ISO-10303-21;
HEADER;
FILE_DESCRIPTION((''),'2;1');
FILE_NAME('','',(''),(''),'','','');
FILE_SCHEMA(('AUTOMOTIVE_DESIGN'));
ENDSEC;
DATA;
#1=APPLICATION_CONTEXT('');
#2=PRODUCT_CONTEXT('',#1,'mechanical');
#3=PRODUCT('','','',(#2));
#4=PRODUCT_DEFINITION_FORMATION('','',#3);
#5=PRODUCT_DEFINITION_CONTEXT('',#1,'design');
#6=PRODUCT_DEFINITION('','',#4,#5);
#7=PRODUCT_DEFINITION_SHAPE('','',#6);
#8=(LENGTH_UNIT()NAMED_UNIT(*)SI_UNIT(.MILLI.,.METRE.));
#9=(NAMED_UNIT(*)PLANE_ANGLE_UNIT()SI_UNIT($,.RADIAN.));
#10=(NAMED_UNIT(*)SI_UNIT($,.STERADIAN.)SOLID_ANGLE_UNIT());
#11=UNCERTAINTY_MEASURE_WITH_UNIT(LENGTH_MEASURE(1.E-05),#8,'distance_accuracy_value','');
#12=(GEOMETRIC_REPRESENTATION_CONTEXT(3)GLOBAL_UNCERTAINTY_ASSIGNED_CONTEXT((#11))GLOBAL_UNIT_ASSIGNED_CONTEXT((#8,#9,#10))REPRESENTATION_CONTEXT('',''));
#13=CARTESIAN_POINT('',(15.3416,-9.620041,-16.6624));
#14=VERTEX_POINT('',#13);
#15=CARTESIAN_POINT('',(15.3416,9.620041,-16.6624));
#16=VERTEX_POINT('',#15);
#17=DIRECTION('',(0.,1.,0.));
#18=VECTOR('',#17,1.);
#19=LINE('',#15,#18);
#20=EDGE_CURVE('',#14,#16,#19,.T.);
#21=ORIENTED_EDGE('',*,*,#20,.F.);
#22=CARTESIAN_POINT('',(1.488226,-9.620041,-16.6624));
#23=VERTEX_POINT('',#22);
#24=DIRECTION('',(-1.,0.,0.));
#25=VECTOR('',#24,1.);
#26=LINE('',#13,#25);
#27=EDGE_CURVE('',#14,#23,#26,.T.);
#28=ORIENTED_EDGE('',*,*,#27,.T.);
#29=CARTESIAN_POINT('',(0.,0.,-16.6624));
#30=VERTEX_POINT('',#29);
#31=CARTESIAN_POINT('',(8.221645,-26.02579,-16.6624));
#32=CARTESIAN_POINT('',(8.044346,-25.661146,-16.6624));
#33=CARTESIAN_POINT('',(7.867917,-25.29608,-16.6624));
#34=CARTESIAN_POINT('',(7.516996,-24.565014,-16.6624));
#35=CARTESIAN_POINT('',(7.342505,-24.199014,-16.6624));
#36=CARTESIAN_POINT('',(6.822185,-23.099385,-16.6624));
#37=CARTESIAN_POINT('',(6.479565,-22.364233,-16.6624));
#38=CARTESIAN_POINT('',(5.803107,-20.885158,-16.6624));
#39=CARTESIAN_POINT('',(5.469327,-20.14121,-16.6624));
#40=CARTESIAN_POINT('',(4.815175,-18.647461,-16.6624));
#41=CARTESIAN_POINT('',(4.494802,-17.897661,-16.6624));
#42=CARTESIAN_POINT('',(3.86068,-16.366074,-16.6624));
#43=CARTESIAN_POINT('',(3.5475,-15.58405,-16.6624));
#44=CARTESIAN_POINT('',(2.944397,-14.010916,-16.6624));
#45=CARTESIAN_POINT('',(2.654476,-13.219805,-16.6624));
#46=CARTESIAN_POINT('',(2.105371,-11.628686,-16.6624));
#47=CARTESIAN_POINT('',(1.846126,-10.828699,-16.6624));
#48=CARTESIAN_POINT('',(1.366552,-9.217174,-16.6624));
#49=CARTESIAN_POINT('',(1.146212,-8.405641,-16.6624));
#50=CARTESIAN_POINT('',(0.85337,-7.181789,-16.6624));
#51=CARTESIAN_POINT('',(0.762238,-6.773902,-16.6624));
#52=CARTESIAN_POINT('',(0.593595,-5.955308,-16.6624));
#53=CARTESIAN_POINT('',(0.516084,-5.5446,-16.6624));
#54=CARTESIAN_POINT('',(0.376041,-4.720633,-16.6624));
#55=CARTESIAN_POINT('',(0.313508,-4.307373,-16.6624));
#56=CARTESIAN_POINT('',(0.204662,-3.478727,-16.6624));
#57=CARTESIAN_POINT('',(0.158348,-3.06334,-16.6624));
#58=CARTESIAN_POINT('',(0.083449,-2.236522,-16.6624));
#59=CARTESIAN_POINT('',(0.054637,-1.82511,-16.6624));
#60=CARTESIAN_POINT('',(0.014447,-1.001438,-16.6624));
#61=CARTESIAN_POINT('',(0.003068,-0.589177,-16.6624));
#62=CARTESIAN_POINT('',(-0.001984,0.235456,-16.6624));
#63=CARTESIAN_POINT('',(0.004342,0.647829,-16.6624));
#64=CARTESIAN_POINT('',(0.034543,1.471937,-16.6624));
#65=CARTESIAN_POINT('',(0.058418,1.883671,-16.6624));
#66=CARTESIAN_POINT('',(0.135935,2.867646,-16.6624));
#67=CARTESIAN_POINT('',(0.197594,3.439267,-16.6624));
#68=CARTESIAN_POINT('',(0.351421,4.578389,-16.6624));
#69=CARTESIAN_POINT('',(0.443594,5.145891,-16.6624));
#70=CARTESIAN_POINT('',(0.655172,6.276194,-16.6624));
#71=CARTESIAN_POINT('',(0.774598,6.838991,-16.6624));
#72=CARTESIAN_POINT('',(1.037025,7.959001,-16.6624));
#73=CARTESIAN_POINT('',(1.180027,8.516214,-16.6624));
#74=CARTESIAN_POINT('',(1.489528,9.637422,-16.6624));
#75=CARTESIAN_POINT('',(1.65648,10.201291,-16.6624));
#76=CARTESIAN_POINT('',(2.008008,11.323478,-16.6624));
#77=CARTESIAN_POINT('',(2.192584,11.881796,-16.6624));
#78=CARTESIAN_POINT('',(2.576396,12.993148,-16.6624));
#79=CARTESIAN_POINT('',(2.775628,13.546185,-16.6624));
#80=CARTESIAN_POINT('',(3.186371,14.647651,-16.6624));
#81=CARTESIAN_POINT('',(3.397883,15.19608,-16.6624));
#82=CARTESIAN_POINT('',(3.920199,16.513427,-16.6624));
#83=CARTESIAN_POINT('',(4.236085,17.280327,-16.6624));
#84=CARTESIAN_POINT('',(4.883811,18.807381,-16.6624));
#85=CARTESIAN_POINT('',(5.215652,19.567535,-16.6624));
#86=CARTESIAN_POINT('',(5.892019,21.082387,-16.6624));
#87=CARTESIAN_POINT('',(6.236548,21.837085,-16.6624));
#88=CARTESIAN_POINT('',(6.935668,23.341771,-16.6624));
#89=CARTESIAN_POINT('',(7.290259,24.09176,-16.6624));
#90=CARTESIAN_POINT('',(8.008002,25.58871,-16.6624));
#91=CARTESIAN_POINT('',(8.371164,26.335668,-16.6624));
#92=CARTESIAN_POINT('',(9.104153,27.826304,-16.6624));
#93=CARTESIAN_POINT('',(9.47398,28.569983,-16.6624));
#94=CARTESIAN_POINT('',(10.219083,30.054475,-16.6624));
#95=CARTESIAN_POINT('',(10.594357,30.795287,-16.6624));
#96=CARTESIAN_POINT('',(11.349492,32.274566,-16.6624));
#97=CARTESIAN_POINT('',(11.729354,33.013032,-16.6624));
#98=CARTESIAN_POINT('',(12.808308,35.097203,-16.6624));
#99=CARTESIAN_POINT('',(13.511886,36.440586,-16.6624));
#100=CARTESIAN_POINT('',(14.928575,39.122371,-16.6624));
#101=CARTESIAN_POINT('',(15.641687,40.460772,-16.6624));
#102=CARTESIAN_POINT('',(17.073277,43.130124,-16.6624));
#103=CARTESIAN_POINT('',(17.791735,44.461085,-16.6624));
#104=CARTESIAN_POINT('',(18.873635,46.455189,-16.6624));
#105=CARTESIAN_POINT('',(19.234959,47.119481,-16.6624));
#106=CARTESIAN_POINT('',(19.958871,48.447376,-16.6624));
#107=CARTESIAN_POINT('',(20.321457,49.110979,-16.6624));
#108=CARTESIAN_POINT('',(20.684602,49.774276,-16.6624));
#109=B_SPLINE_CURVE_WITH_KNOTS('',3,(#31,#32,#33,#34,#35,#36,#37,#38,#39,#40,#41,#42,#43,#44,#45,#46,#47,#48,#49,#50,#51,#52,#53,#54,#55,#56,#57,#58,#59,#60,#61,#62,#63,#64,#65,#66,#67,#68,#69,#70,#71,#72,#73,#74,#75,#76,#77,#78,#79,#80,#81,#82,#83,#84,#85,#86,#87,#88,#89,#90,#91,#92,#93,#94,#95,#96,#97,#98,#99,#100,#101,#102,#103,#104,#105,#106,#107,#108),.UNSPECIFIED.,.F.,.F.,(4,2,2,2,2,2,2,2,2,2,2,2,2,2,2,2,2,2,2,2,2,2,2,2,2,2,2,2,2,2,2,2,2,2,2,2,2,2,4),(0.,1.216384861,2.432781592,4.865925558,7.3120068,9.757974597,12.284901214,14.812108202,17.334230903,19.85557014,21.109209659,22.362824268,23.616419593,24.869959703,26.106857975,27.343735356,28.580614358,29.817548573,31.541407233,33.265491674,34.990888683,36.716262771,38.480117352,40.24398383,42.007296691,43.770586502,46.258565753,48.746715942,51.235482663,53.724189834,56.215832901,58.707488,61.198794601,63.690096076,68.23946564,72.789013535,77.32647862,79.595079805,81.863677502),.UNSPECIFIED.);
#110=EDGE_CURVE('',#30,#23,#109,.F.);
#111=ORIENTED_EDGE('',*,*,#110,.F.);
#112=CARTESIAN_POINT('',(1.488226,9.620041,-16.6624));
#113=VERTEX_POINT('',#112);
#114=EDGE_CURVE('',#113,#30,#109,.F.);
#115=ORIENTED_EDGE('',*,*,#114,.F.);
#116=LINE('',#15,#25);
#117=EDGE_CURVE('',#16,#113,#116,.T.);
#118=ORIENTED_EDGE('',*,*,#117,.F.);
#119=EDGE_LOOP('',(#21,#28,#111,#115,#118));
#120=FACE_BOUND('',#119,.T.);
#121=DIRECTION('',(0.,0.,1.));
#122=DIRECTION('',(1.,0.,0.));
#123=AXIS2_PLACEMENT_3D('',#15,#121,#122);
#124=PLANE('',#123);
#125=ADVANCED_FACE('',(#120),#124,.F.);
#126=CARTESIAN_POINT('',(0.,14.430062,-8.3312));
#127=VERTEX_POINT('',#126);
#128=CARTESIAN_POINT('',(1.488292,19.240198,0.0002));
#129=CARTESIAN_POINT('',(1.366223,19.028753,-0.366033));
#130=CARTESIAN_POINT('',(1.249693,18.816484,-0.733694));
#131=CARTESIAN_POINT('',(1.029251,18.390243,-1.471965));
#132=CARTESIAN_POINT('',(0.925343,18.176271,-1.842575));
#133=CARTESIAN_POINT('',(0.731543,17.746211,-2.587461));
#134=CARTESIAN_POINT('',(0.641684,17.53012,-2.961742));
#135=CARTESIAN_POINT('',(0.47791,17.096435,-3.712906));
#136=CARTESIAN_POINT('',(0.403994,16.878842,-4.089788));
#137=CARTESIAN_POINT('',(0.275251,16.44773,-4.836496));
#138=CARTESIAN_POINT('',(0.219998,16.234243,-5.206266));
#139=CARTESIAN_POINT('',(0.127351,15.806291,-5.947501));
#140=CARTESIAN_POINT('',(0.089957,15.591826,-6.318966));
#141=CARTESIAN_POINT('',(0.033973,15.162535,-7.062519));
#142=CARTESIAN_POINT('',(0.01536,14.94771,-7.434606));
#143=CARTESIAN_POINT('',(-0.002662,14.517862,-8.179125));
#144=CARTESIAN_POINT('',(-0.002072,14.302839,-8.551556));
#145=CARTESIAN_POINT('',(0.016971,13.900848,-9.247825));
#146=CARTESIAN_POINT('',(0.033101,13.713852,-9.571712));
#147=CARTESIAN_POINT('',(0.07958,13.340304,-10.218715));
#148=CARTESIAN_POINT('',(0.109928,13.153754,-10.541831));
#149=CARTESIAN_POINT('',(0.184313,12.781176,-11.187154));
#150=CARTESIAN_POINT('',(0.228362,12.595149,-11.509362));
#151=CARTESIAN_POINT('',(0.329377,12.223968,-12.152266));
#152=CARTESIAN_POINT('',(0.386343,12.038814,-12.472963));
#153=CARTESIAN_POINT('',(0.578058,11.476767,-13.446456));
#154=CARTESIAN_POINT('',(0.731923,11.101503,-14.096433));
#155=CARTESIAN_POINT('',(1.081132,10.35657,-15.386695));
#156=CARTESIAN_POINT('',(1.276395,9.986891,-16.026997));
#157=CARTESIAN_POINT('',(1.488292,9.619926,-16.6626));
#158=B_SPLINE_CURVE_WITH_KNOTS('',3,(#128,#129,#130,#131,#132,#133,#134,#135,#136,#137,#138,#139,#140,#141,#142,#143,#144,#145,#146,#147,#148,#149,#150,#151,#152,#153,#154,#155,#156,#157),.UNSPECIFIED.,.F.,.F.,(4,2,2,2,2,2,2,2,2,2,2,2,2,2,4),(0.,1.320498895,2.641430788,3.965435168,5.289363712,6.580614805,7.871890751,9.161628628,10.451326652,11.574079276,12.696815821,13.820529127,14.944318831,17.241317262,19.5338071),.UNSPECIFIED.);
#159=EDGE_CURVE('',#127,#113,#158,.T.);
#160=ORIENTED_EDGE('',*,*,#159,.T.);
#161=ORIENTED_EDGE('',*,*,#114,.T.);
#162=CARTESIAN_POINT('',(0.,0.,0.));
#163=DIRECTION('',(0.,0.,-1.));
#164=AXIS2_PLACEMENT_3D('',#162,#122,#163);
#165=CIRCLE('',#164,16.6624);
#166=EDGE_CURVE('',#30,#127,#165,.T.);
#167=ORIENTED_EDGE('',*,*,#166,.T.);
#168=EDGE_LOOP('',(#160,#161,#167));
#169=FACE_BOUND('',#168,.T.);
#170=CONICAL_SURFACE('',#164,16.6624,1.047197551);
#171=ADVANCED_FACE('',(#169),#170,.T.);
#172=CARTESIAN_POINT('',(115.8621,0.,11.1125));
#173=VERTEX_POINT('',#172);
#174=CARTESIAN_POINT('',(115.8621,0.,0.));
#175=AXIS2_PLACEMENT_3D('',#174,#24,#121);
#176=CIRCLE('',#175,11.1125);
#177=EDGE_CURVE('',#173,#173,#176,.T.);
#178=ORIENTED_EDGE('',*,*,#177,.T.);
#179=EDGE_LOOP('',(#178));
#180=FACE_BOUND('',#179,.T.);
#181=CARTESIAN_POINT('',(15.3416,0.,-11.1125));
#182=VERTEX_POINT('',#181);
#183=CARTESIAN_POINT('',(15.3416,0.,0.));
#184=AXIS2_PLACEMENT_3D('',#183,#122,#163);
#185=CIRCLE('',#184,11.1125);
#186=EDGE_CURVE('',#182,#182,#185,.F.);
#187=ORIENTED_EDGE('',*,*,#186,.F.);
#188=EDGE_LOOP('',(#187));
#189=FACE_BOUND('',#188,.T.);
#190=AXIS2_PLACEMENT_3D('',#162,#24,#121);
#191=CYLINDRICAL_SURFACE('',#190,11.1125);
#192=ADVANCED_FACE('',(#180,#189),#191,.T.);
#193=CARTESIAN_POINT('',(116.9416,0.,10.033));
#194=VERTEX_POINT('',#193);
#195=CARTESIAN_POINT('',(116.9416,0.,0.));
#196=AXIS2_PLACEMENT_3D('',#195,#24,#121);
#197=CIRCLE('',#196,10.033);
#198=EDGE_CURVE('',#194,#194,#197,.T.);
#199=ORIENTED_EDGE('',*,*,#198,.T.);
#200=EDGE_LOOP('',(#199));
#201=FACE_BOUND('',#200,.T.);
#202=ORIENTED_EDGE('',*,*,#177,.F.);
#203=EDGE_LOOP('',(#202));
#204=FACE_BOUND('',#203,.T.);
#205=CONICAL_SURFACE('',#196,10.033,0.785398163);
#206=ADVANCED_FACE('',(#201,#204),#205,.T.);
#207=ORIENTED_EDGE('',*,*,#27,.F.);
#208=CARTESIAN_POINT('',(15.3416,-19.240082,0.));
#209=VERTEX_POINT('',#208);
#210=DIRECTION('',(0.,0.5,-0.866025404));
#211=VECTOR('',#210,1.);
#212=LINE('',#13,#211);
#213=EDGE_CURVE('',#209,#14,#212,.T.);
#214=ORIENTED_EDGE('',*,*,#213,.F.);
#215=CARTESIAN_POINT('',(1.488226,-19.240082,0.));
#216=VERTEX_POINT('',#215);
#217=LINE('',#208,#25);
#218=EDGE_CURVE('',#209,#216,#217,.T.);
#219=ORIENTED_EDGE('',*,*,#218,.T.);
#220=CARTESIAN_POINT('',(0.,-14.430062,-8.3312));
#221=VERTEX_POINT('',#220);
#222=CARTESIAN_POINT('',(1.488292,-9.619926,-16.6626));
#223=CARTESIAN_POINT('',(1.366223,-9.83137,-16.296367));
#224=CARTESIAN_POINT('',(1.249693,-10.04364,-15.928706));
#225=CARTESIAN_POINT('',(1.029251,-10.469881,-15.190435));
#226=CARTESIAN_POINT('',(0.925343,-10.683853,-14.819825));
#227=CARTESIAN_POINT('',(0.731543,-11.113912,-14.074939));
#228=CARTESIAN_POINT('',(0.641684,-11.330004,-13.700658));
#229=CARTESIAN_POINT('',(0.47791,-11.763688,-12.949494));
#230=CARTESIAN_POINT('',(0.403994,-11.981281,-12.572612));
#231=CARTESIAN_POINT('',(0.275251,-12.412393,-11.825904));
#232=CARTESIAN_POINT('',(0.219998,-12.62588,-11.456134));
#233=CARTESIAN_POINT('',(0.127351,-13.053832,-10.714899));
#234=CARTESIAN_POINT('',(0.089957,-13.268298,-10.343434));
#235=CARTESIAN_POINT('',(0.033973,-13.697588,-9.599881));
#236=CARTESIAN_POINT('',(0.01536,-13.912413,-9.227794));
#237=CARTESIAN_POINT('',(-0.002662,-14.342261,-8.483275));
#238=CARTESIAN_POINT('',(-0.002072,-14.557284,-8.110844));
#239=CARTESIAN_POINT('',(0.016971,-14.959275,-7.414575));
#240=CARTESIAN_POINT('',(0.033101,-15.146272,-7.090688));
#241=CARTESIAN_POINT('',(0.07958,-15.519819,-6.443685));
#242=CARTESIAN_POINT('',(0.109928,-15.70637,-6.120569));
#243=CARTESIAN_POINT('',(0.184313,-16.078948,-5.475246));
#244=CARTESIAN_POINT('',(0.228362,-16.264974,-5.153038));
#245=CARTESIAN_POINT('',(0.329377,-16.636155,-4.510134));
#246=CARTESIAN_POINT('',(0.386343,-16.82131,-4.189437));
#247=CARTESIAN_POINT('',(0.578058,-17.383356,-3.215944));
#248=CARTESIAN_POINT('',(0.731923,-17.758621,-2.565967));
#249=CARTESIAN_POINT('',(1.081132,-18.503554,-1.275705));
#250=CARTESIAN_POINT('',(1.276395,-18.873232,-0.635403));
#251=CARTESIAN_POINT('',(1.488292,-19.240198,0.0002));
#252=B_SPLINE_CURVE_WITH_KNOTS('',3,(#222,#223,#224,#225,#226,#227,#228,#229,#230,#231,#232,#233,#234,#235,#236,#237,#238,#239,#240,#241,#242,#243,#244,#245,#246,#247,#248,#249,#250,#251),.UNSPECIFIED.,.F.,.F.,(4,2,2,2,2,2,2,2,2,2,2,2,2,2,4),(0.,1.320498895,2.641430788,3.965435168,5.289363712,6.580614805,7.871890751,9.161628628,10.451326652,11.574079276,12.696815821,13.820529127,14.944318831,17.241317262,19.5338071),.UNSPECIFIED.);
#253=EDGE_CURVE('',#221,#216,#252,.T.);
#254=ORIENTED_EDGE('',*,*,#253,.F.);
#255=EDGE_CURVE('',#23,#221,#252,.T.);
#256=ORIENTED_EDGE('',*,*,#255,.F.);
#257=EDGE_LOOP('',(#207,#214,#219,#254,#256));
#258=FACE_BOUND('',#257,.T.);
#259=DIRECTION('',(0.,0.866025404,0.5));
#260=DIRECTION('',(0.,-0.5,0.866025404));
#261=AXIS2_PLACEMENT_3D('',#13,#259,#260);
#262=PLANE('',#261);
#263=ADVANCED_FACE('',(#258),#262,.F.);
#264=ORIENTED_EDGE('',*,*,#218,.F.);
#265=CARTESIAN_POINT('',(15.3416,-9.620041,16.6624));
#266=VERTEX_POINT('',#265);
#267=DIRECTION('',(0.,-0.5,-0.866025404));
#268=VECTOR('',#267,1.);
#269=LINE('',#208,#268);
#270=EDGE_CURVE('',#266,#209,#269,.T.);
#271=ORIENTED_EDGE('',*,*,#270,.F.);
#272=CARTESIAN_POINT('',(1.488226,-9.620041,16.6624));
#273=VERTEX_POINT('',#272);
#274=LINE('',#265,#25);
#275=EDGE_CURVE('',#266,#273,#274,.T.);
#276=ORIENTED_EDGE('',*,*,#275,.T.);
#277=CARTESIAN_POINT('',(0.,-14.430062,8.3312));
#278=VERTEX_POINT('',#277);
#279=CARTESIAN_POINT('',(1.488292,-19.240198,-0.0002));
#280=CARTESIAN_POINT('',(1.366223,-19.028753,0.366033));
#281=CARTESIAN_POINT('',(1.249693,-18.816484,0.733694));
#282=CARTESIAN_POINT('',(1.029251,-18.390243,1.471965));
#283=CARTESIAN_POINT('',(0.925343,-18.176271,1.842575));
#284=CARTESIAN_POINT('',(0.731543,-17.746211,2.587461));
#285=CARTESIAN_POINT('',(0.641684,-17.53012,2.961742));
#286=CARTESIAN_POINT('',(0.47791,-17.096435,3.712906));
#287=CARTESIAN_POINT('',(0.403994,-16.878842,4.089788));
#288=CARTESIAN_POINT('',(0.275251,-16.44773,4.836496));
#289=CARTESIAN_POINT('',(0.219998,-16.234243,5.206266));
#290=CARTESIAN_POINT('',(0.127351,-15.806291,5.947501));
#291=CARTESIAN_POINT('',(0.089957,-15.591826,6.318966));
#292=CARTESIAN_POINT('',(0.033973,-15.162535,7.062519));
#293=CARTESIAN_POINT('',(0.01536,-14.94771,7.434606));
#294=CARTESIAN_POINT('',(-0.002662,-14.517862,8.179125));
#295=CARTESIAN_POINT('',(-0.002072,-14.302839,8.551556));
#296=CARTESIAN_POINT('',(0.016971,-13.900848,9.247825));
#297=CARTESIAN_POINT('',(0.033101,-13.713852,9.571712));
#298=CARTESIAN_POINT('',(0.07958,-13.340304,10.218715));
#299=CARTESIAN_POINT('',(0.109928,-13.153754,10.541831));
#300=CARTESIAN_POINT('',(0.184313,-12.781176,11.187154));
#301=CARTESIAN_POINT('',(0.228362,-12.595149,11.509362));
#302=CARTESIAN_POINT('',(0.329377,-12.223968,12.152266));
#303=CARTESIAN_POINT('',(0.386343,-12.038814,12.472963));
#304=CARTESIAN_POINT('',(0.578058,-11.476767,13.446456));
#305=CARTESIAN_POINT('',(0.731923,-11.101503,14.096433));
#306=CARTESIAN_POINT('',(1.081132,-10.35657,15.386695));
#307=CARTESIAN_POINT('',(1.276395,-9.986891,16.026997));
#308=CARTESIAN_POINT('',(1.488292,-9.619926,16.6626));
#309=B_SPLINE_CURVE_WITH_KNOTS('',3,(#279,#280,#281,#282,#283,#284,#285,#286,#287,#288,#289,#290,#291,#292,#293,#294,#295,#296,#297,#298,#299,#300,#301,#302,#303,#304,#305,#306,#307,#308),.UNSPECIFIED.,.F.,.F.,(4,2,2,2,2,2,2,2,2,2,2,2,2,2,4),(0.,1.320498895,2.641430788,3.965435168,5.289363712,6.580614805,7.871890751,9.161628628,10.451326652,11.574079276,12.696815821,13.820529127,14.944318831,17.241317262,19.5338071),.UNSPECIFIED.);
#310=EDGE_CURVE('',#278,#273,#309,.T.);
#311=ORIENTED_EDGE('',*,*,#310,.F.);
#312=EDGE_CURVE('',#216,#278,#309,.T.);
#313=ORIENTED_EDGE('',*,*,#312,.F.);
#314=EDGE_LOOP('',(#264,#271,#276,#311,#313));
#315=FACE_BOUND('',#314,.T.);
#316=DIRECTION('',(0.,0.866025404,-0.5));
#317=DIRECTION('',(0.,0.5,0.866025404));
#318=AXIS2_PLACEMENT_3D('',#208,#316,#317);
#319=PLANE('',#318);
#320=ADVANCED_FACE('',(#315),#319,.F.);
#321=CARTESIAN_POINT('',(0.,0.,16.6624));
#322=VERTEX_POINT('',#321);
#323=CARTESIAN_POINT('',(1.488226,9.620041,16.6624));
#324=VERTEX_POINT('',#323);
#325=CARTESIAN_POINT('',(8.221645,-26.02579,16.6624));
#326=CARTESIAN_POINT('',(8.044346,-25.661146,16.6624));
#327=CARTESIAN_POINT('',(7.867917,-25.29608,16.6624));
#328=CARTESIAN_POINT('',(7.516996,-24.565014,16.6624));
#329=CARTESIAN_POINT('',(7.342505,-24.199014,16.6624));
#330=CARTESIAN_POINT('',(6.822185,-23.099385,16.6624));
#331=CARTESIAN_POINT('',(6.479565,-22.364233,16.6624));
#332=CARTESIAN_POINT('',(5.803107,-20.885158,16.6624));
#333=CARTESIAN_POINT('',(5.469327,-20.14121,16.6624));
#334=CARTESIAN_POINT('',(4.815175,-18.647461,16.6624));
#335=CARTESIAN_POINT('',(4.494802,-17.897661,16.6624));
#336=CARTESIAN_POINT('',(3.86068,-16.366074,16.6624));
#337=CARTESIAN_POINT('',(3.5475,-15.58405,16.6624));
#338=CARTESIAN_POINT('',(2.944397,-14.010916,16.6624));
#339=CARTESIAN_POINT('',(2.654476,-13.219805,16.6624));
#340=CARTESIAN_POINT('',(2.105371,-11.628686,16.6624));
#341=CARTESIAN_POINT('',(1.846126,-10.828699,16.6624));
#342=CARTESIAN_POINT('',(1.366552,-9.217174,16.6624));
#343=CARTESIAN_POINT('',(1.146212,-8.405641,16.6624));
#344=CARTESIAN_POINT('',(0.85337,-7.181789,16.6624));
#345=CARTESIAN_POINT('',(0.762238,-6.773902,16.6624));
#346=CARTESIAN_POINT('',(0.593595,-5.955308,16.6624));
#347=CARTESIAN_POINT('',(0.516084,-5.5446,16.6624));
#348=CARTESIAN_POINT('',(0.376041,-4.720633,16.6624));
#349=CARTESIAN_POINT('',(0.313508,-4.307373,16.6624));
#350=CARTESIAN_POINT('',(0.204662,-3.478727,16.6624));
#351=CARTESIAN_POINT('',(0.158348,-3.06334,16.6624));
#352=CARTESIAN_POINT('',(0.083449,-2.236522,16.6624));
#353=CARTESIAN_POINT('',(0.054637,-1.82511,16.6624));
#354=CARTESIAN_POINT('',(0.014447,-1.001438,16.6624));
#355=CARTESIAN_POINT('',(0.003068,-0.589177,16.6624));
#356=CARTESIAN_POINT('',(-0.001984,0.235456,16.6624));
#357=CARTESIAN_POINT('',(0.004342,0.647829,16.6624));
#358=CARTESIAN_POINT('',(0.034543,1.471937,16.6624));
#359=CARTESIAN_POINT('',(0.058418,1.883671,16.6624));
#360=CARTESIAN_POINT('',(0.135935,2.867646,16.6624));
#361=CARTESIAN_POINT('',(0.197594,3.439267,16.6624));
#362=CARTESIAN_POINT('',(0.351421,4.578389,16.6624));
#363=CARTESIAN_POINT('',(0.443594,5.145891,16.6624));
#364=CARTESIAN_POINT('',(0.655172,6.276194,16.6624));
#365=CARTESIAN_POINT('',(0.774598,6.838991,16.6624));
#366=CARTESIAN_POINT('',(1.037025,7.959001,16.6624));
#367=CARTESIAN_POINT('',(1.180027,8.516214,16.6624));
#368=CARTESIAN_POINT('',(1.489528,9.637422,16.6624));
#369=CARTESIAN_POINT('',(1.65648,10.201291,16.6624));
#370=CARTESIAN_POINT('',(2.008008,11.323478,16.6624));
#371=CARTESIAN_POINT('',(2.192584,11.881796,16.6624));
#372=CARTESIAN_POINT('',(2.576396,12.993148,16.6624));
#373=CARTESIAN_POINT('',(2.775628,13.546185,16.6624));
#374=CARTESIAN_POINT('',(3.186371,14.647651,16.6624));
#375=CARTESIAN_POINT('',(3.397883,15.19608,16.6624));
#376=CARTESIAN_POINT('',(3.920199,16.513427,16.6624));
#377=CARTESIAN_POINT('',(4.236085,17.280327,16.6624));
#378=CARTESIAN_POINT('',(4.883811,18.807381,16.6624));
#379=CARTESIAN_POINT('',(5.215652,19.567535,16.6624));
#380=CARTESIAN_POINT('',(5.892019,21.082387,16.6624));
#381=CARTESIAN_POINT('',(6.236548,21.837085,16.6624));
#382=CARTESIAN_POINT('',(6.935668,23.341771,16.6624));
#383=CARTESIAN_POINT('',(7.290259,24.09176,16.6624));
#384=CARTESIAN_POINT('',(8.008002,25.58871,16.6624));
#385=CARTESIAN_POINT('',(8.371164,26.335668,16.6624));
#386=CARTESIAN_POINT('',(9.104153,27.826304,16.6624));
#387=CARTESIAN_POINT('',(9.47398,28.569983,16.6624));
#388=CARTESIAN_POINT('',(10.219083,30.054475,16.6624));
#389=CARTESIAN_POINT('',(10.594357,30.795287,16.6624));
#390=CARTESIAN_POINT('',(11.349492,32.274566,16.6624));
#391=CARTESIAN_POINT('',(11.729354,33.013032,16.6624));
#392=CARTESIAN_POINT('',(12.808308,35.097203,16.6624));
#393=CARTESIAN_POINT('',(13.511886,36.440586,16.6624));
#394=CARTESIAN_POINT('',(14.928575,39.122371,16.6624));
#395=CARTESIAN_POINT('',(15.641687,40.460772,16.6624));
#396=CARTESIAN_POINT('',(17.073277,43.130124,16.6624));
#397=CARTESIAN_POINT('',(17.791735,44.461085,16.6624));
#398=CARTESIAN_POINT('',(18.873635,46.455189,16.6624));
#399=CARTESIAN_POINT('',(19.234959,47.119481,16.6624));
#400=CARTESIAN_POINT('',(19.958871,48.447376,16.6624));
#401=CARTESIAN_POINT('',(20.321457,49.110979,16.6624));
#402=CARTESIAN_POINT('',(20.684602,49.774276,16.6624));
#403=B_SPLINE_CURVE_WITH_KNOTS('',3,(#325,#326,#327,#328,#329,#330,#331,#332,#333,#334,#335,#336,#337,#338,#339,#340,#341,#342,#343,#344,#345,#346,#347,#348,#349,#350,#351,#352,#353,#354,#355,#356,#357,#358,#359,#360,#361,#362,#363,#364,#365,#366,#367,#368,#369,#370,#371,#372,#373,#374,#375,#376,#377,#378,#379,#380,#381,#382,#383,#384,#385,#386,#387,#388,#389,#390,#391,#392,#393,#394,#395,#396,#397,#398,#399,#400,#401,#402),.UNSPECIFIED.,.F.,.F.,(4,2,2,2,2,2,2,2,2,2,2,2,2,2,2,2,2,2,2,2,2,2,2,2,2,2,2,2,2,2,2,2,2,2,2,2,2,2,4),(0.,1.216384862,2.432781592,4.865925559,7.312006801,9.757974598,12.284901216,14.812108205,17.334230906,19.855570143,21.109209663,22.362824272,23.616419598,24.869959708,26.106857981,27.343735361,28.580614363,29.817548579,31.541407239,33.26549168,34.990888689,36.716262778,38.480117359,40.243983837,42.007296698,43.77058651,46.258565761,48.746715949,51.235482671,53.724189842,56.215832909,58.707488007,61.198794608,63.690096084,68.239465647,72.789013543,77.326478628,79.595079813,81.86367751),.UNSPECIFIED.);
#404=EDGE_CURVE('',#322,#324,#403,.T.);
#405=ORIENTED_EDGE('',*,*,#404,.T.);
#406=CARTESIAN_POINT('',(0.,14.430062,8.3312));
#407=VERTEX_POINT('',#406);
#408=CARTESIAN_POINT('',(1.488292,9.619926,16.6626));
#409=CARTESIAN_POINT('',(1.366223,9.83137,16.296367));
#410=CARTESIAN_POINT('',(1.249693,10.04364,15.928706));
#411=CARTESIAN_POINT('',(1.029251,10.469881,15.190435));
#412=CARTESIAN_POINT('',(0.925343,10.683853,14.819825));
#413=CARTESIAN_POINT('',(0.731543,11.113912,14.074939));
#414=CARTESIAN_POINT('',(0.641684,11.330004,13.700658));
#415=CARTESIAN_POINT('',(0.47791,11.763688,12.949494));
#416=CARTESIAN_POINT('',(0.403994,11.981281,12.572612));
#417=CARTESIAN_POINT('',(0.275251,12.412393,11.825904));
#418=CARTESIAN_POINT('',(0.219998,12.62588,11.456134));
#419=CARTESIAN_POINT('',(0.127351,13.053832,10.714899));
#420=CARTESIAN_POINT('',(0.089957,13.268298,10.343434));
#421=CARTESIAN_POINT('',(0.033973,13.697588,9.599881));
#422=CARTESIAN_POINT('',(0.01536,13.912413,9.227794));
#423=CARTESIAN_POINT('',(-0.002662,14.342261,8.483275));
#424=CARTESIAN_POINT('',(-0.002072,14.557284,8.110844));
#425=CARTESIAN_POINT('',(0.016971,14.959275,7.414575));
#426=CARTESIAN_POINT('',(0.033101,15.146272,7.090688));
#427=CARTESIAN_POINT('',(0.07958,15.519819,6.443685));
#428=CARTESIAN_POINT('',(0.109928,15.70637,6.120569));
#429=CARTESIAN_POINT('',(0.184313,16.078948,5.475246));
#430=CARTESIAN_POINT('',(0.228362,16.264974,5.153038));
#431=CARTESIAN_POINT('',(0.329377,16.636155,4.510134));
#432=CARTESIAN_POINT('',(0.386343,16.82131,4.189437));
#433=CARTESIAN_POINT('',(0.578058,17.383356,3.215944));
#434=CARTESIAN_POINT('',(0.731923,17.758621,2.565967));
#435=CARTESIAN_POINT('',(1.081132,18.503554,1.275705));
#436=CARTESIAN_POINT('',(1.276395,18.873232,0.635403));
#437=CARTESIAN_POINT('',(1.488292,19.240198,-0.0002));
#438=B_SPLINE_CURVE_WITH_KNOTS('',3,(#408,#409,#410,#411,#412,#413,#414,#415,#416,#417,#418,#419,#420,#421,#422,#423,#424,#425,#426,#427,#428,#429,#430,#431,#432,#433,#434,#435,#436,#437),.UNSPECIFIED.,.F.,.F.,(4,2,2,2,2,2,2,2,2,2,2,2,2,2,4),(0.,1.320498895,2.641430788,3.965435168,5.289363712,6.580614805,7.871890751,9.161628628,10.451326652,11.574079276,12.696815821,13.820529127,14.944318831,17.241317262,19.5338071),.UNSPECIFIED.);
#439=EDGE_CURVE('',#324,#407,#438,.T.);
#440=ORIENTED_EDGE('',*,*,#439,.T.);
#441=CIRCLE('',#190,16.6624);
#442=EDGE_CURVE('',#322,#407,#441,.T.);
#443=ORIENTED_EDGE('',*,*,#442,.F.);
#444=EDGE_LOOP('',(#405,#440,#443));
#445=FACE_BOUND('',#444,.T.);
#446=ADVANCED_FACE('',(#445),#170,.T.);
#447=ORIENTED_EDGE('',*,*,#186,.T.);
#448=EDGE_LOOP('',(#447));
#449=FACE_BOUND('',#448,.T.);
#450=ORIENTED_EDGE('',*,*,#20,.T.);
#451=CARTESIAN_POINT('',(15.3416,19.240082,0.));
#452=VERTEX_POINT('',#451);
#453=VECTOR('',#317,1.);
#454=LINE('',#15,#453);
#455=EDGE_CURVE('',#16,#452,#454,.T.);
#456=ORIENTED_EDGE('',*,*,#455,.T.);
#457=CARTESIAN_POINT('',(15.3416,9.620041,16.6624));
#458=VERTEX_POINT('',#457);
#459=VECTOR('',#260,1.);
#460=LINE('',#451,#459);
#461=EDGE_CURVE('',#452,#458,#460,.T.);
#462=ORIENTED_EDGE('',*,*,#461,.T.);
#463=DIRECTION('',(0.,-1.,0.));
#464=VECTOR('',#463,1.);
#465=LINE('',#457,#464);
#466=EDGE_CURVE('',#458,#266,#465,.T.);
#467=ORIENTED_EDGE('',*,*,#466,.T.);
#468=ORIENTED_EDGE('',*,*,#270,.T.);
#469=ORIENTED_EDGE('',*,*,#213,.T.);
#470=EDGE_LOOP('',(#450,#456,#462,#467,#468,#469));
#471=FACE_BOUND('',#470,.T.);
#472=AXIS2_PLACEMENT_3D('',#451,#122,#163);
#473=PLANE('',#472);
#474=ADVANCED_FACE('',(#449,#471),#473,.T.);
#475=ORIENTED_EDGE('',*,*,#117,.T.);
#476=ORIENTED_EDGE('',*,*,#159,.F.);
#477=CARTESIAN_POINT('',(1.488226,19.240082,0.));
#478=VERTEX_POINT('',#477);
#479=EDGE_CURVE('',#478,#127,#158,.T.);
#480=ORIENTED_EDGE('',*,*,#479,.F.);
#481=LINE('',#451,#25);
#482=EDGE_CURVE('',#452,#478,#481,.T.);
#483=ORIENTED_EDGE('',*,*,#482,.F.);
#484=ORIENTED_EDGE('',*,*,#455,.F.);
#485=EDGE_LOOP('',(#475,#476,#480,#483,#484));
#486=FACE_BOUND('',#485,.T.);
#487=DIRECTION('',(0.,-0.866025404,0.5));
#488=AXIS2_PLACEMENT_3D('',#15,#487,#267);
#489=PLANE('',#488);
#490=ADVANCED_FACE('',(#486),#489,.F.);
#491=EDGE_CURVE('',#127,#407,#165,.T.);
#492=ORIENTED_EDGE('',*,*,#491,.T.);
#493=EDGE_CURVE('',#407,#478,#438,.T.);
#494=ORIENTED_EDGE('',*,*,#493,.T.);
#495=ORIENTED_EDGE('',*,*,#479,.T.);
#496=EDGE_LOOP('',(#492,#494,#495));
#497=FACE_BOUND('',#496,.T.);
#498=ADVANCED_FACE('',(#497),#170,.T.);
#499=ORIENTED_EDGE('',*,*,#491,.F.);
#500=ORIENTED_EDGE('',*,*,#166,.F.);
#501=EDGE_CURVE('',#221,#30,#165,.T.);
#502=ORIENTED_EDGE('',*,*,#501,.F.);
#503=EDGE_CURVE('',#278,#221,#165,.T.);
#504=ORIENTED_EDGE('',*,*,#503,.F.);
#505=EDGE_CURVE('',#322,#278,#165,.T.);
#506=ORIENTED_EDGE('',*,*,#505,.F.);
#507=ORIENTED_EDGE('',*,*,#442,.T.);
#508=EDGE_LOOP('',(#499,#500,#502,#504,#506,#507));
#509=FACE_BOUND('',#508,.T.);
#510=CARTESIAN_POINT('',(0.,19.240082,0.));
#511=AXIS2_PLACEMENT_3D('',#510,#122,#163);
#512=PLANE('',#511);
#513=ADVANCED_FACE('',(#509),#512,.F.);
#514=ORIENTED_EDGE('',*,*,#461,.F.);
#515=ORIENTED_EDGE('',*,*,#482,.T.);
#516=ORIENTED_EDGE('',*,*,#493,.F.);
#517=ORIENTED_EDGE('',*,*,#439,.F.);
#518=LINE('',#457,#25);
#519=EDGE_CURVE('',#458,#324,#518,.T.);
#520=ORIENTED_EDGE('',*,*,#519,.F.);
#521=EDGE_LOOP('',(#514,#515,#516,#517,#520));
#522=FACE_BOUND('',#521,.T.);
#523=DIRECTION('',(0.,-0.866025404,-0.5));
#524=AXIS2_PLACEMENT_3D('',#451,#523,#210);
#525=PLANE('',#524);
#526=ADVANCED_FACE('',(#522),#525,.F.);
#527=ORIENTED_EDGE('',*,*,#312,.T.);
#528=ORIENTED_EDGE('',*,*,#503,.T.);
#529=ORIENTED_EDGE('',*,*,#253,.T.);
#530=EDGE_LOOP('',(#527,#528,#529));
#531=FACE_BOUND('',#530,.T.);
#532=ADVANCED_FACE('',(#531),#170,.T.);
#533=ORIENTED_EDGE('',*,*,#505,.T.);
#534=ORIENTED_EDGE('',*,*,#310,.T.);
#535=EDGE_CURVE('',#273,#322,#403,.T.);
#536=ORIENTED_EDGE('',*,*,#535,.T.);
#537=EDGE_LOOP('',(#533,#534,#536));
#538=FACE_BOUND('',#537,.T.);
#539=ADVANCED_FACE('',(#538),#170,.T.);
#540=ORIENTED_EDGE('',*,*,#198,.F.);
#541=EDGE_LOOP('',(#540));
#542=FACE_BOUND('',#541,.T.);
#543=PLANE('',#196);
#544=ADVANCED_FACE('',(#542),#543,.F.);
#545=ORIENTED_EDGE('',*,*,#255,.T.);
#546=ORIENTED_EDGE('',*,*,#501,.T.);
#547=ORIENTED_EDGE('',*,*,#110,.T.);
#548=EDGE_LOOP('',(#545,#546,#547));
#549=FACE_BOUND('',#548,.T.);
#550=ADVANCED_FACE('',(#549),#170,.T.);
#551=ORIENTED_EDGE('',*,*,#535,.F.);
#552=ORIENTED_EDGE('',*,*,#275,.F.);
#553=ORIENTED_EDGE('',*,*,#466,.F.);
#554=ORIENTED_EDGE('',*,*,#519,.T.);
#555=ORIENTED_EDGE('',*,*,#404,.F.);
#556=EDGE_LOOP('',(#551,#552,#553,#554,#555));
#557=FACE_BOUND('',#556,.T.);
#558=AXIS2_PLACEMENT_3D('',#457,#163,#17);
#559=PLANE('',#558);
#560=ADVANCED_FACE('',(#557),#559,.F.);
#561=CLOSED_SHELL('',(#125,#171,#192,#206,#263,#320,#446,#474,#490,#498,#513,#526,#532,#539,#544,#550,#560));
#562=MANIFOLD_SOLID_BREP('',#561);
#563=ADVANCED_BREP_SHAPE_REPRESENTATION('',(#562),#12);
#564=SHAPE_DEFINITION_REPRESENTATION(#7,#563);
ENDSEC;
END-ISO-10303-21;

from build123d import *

# Parameters (mm, degrees)
BASEHEAD_DEPTH = 15.3416


with BuildPart() as part:
    # Sketch1 → BaseHead (new body)
    with BuildSketch(Plane(origin=(0, 0, 0), x_dir=(0, 0, -1), z_dir=(1, 0, 0))):
        Polygon((16.6624, 9.620041125), (16.6624, -9.620041125), (0, -19.240082251), (-16.6624, -9.620041125), (-16.6624, 9.620041125), (0, 19.240082251), align=None)
    extrude(amount=BASEHEAD_DEPTH)

    # BodySke → BaseBody (revolve)
    with BuildSketch(Plane.XY):
        Polygon((0, 0), (116.9416, 0), (116.9416, 10.033), (115.8621, 11.1125), (0, 11.1125), align=None)
    revolve(axis=Axis((0, 0, 0), (1, 0, 0)))

    # Sketch3 → HeadChamfer (revolve, cut)
    with BuildSketch(Plane.XY):
        Polygon((0, 16.6624), (5.154399751, 25.590082251), (5.154399751, 31.940082251), (-12.7, 31.940082251), (-12.7, 16.6624), align=None)
    revolve(axis=Axis((0, 0, 0), (1, 0, 0)), mode=Mode.SUBTRACT)


solid = part.part
